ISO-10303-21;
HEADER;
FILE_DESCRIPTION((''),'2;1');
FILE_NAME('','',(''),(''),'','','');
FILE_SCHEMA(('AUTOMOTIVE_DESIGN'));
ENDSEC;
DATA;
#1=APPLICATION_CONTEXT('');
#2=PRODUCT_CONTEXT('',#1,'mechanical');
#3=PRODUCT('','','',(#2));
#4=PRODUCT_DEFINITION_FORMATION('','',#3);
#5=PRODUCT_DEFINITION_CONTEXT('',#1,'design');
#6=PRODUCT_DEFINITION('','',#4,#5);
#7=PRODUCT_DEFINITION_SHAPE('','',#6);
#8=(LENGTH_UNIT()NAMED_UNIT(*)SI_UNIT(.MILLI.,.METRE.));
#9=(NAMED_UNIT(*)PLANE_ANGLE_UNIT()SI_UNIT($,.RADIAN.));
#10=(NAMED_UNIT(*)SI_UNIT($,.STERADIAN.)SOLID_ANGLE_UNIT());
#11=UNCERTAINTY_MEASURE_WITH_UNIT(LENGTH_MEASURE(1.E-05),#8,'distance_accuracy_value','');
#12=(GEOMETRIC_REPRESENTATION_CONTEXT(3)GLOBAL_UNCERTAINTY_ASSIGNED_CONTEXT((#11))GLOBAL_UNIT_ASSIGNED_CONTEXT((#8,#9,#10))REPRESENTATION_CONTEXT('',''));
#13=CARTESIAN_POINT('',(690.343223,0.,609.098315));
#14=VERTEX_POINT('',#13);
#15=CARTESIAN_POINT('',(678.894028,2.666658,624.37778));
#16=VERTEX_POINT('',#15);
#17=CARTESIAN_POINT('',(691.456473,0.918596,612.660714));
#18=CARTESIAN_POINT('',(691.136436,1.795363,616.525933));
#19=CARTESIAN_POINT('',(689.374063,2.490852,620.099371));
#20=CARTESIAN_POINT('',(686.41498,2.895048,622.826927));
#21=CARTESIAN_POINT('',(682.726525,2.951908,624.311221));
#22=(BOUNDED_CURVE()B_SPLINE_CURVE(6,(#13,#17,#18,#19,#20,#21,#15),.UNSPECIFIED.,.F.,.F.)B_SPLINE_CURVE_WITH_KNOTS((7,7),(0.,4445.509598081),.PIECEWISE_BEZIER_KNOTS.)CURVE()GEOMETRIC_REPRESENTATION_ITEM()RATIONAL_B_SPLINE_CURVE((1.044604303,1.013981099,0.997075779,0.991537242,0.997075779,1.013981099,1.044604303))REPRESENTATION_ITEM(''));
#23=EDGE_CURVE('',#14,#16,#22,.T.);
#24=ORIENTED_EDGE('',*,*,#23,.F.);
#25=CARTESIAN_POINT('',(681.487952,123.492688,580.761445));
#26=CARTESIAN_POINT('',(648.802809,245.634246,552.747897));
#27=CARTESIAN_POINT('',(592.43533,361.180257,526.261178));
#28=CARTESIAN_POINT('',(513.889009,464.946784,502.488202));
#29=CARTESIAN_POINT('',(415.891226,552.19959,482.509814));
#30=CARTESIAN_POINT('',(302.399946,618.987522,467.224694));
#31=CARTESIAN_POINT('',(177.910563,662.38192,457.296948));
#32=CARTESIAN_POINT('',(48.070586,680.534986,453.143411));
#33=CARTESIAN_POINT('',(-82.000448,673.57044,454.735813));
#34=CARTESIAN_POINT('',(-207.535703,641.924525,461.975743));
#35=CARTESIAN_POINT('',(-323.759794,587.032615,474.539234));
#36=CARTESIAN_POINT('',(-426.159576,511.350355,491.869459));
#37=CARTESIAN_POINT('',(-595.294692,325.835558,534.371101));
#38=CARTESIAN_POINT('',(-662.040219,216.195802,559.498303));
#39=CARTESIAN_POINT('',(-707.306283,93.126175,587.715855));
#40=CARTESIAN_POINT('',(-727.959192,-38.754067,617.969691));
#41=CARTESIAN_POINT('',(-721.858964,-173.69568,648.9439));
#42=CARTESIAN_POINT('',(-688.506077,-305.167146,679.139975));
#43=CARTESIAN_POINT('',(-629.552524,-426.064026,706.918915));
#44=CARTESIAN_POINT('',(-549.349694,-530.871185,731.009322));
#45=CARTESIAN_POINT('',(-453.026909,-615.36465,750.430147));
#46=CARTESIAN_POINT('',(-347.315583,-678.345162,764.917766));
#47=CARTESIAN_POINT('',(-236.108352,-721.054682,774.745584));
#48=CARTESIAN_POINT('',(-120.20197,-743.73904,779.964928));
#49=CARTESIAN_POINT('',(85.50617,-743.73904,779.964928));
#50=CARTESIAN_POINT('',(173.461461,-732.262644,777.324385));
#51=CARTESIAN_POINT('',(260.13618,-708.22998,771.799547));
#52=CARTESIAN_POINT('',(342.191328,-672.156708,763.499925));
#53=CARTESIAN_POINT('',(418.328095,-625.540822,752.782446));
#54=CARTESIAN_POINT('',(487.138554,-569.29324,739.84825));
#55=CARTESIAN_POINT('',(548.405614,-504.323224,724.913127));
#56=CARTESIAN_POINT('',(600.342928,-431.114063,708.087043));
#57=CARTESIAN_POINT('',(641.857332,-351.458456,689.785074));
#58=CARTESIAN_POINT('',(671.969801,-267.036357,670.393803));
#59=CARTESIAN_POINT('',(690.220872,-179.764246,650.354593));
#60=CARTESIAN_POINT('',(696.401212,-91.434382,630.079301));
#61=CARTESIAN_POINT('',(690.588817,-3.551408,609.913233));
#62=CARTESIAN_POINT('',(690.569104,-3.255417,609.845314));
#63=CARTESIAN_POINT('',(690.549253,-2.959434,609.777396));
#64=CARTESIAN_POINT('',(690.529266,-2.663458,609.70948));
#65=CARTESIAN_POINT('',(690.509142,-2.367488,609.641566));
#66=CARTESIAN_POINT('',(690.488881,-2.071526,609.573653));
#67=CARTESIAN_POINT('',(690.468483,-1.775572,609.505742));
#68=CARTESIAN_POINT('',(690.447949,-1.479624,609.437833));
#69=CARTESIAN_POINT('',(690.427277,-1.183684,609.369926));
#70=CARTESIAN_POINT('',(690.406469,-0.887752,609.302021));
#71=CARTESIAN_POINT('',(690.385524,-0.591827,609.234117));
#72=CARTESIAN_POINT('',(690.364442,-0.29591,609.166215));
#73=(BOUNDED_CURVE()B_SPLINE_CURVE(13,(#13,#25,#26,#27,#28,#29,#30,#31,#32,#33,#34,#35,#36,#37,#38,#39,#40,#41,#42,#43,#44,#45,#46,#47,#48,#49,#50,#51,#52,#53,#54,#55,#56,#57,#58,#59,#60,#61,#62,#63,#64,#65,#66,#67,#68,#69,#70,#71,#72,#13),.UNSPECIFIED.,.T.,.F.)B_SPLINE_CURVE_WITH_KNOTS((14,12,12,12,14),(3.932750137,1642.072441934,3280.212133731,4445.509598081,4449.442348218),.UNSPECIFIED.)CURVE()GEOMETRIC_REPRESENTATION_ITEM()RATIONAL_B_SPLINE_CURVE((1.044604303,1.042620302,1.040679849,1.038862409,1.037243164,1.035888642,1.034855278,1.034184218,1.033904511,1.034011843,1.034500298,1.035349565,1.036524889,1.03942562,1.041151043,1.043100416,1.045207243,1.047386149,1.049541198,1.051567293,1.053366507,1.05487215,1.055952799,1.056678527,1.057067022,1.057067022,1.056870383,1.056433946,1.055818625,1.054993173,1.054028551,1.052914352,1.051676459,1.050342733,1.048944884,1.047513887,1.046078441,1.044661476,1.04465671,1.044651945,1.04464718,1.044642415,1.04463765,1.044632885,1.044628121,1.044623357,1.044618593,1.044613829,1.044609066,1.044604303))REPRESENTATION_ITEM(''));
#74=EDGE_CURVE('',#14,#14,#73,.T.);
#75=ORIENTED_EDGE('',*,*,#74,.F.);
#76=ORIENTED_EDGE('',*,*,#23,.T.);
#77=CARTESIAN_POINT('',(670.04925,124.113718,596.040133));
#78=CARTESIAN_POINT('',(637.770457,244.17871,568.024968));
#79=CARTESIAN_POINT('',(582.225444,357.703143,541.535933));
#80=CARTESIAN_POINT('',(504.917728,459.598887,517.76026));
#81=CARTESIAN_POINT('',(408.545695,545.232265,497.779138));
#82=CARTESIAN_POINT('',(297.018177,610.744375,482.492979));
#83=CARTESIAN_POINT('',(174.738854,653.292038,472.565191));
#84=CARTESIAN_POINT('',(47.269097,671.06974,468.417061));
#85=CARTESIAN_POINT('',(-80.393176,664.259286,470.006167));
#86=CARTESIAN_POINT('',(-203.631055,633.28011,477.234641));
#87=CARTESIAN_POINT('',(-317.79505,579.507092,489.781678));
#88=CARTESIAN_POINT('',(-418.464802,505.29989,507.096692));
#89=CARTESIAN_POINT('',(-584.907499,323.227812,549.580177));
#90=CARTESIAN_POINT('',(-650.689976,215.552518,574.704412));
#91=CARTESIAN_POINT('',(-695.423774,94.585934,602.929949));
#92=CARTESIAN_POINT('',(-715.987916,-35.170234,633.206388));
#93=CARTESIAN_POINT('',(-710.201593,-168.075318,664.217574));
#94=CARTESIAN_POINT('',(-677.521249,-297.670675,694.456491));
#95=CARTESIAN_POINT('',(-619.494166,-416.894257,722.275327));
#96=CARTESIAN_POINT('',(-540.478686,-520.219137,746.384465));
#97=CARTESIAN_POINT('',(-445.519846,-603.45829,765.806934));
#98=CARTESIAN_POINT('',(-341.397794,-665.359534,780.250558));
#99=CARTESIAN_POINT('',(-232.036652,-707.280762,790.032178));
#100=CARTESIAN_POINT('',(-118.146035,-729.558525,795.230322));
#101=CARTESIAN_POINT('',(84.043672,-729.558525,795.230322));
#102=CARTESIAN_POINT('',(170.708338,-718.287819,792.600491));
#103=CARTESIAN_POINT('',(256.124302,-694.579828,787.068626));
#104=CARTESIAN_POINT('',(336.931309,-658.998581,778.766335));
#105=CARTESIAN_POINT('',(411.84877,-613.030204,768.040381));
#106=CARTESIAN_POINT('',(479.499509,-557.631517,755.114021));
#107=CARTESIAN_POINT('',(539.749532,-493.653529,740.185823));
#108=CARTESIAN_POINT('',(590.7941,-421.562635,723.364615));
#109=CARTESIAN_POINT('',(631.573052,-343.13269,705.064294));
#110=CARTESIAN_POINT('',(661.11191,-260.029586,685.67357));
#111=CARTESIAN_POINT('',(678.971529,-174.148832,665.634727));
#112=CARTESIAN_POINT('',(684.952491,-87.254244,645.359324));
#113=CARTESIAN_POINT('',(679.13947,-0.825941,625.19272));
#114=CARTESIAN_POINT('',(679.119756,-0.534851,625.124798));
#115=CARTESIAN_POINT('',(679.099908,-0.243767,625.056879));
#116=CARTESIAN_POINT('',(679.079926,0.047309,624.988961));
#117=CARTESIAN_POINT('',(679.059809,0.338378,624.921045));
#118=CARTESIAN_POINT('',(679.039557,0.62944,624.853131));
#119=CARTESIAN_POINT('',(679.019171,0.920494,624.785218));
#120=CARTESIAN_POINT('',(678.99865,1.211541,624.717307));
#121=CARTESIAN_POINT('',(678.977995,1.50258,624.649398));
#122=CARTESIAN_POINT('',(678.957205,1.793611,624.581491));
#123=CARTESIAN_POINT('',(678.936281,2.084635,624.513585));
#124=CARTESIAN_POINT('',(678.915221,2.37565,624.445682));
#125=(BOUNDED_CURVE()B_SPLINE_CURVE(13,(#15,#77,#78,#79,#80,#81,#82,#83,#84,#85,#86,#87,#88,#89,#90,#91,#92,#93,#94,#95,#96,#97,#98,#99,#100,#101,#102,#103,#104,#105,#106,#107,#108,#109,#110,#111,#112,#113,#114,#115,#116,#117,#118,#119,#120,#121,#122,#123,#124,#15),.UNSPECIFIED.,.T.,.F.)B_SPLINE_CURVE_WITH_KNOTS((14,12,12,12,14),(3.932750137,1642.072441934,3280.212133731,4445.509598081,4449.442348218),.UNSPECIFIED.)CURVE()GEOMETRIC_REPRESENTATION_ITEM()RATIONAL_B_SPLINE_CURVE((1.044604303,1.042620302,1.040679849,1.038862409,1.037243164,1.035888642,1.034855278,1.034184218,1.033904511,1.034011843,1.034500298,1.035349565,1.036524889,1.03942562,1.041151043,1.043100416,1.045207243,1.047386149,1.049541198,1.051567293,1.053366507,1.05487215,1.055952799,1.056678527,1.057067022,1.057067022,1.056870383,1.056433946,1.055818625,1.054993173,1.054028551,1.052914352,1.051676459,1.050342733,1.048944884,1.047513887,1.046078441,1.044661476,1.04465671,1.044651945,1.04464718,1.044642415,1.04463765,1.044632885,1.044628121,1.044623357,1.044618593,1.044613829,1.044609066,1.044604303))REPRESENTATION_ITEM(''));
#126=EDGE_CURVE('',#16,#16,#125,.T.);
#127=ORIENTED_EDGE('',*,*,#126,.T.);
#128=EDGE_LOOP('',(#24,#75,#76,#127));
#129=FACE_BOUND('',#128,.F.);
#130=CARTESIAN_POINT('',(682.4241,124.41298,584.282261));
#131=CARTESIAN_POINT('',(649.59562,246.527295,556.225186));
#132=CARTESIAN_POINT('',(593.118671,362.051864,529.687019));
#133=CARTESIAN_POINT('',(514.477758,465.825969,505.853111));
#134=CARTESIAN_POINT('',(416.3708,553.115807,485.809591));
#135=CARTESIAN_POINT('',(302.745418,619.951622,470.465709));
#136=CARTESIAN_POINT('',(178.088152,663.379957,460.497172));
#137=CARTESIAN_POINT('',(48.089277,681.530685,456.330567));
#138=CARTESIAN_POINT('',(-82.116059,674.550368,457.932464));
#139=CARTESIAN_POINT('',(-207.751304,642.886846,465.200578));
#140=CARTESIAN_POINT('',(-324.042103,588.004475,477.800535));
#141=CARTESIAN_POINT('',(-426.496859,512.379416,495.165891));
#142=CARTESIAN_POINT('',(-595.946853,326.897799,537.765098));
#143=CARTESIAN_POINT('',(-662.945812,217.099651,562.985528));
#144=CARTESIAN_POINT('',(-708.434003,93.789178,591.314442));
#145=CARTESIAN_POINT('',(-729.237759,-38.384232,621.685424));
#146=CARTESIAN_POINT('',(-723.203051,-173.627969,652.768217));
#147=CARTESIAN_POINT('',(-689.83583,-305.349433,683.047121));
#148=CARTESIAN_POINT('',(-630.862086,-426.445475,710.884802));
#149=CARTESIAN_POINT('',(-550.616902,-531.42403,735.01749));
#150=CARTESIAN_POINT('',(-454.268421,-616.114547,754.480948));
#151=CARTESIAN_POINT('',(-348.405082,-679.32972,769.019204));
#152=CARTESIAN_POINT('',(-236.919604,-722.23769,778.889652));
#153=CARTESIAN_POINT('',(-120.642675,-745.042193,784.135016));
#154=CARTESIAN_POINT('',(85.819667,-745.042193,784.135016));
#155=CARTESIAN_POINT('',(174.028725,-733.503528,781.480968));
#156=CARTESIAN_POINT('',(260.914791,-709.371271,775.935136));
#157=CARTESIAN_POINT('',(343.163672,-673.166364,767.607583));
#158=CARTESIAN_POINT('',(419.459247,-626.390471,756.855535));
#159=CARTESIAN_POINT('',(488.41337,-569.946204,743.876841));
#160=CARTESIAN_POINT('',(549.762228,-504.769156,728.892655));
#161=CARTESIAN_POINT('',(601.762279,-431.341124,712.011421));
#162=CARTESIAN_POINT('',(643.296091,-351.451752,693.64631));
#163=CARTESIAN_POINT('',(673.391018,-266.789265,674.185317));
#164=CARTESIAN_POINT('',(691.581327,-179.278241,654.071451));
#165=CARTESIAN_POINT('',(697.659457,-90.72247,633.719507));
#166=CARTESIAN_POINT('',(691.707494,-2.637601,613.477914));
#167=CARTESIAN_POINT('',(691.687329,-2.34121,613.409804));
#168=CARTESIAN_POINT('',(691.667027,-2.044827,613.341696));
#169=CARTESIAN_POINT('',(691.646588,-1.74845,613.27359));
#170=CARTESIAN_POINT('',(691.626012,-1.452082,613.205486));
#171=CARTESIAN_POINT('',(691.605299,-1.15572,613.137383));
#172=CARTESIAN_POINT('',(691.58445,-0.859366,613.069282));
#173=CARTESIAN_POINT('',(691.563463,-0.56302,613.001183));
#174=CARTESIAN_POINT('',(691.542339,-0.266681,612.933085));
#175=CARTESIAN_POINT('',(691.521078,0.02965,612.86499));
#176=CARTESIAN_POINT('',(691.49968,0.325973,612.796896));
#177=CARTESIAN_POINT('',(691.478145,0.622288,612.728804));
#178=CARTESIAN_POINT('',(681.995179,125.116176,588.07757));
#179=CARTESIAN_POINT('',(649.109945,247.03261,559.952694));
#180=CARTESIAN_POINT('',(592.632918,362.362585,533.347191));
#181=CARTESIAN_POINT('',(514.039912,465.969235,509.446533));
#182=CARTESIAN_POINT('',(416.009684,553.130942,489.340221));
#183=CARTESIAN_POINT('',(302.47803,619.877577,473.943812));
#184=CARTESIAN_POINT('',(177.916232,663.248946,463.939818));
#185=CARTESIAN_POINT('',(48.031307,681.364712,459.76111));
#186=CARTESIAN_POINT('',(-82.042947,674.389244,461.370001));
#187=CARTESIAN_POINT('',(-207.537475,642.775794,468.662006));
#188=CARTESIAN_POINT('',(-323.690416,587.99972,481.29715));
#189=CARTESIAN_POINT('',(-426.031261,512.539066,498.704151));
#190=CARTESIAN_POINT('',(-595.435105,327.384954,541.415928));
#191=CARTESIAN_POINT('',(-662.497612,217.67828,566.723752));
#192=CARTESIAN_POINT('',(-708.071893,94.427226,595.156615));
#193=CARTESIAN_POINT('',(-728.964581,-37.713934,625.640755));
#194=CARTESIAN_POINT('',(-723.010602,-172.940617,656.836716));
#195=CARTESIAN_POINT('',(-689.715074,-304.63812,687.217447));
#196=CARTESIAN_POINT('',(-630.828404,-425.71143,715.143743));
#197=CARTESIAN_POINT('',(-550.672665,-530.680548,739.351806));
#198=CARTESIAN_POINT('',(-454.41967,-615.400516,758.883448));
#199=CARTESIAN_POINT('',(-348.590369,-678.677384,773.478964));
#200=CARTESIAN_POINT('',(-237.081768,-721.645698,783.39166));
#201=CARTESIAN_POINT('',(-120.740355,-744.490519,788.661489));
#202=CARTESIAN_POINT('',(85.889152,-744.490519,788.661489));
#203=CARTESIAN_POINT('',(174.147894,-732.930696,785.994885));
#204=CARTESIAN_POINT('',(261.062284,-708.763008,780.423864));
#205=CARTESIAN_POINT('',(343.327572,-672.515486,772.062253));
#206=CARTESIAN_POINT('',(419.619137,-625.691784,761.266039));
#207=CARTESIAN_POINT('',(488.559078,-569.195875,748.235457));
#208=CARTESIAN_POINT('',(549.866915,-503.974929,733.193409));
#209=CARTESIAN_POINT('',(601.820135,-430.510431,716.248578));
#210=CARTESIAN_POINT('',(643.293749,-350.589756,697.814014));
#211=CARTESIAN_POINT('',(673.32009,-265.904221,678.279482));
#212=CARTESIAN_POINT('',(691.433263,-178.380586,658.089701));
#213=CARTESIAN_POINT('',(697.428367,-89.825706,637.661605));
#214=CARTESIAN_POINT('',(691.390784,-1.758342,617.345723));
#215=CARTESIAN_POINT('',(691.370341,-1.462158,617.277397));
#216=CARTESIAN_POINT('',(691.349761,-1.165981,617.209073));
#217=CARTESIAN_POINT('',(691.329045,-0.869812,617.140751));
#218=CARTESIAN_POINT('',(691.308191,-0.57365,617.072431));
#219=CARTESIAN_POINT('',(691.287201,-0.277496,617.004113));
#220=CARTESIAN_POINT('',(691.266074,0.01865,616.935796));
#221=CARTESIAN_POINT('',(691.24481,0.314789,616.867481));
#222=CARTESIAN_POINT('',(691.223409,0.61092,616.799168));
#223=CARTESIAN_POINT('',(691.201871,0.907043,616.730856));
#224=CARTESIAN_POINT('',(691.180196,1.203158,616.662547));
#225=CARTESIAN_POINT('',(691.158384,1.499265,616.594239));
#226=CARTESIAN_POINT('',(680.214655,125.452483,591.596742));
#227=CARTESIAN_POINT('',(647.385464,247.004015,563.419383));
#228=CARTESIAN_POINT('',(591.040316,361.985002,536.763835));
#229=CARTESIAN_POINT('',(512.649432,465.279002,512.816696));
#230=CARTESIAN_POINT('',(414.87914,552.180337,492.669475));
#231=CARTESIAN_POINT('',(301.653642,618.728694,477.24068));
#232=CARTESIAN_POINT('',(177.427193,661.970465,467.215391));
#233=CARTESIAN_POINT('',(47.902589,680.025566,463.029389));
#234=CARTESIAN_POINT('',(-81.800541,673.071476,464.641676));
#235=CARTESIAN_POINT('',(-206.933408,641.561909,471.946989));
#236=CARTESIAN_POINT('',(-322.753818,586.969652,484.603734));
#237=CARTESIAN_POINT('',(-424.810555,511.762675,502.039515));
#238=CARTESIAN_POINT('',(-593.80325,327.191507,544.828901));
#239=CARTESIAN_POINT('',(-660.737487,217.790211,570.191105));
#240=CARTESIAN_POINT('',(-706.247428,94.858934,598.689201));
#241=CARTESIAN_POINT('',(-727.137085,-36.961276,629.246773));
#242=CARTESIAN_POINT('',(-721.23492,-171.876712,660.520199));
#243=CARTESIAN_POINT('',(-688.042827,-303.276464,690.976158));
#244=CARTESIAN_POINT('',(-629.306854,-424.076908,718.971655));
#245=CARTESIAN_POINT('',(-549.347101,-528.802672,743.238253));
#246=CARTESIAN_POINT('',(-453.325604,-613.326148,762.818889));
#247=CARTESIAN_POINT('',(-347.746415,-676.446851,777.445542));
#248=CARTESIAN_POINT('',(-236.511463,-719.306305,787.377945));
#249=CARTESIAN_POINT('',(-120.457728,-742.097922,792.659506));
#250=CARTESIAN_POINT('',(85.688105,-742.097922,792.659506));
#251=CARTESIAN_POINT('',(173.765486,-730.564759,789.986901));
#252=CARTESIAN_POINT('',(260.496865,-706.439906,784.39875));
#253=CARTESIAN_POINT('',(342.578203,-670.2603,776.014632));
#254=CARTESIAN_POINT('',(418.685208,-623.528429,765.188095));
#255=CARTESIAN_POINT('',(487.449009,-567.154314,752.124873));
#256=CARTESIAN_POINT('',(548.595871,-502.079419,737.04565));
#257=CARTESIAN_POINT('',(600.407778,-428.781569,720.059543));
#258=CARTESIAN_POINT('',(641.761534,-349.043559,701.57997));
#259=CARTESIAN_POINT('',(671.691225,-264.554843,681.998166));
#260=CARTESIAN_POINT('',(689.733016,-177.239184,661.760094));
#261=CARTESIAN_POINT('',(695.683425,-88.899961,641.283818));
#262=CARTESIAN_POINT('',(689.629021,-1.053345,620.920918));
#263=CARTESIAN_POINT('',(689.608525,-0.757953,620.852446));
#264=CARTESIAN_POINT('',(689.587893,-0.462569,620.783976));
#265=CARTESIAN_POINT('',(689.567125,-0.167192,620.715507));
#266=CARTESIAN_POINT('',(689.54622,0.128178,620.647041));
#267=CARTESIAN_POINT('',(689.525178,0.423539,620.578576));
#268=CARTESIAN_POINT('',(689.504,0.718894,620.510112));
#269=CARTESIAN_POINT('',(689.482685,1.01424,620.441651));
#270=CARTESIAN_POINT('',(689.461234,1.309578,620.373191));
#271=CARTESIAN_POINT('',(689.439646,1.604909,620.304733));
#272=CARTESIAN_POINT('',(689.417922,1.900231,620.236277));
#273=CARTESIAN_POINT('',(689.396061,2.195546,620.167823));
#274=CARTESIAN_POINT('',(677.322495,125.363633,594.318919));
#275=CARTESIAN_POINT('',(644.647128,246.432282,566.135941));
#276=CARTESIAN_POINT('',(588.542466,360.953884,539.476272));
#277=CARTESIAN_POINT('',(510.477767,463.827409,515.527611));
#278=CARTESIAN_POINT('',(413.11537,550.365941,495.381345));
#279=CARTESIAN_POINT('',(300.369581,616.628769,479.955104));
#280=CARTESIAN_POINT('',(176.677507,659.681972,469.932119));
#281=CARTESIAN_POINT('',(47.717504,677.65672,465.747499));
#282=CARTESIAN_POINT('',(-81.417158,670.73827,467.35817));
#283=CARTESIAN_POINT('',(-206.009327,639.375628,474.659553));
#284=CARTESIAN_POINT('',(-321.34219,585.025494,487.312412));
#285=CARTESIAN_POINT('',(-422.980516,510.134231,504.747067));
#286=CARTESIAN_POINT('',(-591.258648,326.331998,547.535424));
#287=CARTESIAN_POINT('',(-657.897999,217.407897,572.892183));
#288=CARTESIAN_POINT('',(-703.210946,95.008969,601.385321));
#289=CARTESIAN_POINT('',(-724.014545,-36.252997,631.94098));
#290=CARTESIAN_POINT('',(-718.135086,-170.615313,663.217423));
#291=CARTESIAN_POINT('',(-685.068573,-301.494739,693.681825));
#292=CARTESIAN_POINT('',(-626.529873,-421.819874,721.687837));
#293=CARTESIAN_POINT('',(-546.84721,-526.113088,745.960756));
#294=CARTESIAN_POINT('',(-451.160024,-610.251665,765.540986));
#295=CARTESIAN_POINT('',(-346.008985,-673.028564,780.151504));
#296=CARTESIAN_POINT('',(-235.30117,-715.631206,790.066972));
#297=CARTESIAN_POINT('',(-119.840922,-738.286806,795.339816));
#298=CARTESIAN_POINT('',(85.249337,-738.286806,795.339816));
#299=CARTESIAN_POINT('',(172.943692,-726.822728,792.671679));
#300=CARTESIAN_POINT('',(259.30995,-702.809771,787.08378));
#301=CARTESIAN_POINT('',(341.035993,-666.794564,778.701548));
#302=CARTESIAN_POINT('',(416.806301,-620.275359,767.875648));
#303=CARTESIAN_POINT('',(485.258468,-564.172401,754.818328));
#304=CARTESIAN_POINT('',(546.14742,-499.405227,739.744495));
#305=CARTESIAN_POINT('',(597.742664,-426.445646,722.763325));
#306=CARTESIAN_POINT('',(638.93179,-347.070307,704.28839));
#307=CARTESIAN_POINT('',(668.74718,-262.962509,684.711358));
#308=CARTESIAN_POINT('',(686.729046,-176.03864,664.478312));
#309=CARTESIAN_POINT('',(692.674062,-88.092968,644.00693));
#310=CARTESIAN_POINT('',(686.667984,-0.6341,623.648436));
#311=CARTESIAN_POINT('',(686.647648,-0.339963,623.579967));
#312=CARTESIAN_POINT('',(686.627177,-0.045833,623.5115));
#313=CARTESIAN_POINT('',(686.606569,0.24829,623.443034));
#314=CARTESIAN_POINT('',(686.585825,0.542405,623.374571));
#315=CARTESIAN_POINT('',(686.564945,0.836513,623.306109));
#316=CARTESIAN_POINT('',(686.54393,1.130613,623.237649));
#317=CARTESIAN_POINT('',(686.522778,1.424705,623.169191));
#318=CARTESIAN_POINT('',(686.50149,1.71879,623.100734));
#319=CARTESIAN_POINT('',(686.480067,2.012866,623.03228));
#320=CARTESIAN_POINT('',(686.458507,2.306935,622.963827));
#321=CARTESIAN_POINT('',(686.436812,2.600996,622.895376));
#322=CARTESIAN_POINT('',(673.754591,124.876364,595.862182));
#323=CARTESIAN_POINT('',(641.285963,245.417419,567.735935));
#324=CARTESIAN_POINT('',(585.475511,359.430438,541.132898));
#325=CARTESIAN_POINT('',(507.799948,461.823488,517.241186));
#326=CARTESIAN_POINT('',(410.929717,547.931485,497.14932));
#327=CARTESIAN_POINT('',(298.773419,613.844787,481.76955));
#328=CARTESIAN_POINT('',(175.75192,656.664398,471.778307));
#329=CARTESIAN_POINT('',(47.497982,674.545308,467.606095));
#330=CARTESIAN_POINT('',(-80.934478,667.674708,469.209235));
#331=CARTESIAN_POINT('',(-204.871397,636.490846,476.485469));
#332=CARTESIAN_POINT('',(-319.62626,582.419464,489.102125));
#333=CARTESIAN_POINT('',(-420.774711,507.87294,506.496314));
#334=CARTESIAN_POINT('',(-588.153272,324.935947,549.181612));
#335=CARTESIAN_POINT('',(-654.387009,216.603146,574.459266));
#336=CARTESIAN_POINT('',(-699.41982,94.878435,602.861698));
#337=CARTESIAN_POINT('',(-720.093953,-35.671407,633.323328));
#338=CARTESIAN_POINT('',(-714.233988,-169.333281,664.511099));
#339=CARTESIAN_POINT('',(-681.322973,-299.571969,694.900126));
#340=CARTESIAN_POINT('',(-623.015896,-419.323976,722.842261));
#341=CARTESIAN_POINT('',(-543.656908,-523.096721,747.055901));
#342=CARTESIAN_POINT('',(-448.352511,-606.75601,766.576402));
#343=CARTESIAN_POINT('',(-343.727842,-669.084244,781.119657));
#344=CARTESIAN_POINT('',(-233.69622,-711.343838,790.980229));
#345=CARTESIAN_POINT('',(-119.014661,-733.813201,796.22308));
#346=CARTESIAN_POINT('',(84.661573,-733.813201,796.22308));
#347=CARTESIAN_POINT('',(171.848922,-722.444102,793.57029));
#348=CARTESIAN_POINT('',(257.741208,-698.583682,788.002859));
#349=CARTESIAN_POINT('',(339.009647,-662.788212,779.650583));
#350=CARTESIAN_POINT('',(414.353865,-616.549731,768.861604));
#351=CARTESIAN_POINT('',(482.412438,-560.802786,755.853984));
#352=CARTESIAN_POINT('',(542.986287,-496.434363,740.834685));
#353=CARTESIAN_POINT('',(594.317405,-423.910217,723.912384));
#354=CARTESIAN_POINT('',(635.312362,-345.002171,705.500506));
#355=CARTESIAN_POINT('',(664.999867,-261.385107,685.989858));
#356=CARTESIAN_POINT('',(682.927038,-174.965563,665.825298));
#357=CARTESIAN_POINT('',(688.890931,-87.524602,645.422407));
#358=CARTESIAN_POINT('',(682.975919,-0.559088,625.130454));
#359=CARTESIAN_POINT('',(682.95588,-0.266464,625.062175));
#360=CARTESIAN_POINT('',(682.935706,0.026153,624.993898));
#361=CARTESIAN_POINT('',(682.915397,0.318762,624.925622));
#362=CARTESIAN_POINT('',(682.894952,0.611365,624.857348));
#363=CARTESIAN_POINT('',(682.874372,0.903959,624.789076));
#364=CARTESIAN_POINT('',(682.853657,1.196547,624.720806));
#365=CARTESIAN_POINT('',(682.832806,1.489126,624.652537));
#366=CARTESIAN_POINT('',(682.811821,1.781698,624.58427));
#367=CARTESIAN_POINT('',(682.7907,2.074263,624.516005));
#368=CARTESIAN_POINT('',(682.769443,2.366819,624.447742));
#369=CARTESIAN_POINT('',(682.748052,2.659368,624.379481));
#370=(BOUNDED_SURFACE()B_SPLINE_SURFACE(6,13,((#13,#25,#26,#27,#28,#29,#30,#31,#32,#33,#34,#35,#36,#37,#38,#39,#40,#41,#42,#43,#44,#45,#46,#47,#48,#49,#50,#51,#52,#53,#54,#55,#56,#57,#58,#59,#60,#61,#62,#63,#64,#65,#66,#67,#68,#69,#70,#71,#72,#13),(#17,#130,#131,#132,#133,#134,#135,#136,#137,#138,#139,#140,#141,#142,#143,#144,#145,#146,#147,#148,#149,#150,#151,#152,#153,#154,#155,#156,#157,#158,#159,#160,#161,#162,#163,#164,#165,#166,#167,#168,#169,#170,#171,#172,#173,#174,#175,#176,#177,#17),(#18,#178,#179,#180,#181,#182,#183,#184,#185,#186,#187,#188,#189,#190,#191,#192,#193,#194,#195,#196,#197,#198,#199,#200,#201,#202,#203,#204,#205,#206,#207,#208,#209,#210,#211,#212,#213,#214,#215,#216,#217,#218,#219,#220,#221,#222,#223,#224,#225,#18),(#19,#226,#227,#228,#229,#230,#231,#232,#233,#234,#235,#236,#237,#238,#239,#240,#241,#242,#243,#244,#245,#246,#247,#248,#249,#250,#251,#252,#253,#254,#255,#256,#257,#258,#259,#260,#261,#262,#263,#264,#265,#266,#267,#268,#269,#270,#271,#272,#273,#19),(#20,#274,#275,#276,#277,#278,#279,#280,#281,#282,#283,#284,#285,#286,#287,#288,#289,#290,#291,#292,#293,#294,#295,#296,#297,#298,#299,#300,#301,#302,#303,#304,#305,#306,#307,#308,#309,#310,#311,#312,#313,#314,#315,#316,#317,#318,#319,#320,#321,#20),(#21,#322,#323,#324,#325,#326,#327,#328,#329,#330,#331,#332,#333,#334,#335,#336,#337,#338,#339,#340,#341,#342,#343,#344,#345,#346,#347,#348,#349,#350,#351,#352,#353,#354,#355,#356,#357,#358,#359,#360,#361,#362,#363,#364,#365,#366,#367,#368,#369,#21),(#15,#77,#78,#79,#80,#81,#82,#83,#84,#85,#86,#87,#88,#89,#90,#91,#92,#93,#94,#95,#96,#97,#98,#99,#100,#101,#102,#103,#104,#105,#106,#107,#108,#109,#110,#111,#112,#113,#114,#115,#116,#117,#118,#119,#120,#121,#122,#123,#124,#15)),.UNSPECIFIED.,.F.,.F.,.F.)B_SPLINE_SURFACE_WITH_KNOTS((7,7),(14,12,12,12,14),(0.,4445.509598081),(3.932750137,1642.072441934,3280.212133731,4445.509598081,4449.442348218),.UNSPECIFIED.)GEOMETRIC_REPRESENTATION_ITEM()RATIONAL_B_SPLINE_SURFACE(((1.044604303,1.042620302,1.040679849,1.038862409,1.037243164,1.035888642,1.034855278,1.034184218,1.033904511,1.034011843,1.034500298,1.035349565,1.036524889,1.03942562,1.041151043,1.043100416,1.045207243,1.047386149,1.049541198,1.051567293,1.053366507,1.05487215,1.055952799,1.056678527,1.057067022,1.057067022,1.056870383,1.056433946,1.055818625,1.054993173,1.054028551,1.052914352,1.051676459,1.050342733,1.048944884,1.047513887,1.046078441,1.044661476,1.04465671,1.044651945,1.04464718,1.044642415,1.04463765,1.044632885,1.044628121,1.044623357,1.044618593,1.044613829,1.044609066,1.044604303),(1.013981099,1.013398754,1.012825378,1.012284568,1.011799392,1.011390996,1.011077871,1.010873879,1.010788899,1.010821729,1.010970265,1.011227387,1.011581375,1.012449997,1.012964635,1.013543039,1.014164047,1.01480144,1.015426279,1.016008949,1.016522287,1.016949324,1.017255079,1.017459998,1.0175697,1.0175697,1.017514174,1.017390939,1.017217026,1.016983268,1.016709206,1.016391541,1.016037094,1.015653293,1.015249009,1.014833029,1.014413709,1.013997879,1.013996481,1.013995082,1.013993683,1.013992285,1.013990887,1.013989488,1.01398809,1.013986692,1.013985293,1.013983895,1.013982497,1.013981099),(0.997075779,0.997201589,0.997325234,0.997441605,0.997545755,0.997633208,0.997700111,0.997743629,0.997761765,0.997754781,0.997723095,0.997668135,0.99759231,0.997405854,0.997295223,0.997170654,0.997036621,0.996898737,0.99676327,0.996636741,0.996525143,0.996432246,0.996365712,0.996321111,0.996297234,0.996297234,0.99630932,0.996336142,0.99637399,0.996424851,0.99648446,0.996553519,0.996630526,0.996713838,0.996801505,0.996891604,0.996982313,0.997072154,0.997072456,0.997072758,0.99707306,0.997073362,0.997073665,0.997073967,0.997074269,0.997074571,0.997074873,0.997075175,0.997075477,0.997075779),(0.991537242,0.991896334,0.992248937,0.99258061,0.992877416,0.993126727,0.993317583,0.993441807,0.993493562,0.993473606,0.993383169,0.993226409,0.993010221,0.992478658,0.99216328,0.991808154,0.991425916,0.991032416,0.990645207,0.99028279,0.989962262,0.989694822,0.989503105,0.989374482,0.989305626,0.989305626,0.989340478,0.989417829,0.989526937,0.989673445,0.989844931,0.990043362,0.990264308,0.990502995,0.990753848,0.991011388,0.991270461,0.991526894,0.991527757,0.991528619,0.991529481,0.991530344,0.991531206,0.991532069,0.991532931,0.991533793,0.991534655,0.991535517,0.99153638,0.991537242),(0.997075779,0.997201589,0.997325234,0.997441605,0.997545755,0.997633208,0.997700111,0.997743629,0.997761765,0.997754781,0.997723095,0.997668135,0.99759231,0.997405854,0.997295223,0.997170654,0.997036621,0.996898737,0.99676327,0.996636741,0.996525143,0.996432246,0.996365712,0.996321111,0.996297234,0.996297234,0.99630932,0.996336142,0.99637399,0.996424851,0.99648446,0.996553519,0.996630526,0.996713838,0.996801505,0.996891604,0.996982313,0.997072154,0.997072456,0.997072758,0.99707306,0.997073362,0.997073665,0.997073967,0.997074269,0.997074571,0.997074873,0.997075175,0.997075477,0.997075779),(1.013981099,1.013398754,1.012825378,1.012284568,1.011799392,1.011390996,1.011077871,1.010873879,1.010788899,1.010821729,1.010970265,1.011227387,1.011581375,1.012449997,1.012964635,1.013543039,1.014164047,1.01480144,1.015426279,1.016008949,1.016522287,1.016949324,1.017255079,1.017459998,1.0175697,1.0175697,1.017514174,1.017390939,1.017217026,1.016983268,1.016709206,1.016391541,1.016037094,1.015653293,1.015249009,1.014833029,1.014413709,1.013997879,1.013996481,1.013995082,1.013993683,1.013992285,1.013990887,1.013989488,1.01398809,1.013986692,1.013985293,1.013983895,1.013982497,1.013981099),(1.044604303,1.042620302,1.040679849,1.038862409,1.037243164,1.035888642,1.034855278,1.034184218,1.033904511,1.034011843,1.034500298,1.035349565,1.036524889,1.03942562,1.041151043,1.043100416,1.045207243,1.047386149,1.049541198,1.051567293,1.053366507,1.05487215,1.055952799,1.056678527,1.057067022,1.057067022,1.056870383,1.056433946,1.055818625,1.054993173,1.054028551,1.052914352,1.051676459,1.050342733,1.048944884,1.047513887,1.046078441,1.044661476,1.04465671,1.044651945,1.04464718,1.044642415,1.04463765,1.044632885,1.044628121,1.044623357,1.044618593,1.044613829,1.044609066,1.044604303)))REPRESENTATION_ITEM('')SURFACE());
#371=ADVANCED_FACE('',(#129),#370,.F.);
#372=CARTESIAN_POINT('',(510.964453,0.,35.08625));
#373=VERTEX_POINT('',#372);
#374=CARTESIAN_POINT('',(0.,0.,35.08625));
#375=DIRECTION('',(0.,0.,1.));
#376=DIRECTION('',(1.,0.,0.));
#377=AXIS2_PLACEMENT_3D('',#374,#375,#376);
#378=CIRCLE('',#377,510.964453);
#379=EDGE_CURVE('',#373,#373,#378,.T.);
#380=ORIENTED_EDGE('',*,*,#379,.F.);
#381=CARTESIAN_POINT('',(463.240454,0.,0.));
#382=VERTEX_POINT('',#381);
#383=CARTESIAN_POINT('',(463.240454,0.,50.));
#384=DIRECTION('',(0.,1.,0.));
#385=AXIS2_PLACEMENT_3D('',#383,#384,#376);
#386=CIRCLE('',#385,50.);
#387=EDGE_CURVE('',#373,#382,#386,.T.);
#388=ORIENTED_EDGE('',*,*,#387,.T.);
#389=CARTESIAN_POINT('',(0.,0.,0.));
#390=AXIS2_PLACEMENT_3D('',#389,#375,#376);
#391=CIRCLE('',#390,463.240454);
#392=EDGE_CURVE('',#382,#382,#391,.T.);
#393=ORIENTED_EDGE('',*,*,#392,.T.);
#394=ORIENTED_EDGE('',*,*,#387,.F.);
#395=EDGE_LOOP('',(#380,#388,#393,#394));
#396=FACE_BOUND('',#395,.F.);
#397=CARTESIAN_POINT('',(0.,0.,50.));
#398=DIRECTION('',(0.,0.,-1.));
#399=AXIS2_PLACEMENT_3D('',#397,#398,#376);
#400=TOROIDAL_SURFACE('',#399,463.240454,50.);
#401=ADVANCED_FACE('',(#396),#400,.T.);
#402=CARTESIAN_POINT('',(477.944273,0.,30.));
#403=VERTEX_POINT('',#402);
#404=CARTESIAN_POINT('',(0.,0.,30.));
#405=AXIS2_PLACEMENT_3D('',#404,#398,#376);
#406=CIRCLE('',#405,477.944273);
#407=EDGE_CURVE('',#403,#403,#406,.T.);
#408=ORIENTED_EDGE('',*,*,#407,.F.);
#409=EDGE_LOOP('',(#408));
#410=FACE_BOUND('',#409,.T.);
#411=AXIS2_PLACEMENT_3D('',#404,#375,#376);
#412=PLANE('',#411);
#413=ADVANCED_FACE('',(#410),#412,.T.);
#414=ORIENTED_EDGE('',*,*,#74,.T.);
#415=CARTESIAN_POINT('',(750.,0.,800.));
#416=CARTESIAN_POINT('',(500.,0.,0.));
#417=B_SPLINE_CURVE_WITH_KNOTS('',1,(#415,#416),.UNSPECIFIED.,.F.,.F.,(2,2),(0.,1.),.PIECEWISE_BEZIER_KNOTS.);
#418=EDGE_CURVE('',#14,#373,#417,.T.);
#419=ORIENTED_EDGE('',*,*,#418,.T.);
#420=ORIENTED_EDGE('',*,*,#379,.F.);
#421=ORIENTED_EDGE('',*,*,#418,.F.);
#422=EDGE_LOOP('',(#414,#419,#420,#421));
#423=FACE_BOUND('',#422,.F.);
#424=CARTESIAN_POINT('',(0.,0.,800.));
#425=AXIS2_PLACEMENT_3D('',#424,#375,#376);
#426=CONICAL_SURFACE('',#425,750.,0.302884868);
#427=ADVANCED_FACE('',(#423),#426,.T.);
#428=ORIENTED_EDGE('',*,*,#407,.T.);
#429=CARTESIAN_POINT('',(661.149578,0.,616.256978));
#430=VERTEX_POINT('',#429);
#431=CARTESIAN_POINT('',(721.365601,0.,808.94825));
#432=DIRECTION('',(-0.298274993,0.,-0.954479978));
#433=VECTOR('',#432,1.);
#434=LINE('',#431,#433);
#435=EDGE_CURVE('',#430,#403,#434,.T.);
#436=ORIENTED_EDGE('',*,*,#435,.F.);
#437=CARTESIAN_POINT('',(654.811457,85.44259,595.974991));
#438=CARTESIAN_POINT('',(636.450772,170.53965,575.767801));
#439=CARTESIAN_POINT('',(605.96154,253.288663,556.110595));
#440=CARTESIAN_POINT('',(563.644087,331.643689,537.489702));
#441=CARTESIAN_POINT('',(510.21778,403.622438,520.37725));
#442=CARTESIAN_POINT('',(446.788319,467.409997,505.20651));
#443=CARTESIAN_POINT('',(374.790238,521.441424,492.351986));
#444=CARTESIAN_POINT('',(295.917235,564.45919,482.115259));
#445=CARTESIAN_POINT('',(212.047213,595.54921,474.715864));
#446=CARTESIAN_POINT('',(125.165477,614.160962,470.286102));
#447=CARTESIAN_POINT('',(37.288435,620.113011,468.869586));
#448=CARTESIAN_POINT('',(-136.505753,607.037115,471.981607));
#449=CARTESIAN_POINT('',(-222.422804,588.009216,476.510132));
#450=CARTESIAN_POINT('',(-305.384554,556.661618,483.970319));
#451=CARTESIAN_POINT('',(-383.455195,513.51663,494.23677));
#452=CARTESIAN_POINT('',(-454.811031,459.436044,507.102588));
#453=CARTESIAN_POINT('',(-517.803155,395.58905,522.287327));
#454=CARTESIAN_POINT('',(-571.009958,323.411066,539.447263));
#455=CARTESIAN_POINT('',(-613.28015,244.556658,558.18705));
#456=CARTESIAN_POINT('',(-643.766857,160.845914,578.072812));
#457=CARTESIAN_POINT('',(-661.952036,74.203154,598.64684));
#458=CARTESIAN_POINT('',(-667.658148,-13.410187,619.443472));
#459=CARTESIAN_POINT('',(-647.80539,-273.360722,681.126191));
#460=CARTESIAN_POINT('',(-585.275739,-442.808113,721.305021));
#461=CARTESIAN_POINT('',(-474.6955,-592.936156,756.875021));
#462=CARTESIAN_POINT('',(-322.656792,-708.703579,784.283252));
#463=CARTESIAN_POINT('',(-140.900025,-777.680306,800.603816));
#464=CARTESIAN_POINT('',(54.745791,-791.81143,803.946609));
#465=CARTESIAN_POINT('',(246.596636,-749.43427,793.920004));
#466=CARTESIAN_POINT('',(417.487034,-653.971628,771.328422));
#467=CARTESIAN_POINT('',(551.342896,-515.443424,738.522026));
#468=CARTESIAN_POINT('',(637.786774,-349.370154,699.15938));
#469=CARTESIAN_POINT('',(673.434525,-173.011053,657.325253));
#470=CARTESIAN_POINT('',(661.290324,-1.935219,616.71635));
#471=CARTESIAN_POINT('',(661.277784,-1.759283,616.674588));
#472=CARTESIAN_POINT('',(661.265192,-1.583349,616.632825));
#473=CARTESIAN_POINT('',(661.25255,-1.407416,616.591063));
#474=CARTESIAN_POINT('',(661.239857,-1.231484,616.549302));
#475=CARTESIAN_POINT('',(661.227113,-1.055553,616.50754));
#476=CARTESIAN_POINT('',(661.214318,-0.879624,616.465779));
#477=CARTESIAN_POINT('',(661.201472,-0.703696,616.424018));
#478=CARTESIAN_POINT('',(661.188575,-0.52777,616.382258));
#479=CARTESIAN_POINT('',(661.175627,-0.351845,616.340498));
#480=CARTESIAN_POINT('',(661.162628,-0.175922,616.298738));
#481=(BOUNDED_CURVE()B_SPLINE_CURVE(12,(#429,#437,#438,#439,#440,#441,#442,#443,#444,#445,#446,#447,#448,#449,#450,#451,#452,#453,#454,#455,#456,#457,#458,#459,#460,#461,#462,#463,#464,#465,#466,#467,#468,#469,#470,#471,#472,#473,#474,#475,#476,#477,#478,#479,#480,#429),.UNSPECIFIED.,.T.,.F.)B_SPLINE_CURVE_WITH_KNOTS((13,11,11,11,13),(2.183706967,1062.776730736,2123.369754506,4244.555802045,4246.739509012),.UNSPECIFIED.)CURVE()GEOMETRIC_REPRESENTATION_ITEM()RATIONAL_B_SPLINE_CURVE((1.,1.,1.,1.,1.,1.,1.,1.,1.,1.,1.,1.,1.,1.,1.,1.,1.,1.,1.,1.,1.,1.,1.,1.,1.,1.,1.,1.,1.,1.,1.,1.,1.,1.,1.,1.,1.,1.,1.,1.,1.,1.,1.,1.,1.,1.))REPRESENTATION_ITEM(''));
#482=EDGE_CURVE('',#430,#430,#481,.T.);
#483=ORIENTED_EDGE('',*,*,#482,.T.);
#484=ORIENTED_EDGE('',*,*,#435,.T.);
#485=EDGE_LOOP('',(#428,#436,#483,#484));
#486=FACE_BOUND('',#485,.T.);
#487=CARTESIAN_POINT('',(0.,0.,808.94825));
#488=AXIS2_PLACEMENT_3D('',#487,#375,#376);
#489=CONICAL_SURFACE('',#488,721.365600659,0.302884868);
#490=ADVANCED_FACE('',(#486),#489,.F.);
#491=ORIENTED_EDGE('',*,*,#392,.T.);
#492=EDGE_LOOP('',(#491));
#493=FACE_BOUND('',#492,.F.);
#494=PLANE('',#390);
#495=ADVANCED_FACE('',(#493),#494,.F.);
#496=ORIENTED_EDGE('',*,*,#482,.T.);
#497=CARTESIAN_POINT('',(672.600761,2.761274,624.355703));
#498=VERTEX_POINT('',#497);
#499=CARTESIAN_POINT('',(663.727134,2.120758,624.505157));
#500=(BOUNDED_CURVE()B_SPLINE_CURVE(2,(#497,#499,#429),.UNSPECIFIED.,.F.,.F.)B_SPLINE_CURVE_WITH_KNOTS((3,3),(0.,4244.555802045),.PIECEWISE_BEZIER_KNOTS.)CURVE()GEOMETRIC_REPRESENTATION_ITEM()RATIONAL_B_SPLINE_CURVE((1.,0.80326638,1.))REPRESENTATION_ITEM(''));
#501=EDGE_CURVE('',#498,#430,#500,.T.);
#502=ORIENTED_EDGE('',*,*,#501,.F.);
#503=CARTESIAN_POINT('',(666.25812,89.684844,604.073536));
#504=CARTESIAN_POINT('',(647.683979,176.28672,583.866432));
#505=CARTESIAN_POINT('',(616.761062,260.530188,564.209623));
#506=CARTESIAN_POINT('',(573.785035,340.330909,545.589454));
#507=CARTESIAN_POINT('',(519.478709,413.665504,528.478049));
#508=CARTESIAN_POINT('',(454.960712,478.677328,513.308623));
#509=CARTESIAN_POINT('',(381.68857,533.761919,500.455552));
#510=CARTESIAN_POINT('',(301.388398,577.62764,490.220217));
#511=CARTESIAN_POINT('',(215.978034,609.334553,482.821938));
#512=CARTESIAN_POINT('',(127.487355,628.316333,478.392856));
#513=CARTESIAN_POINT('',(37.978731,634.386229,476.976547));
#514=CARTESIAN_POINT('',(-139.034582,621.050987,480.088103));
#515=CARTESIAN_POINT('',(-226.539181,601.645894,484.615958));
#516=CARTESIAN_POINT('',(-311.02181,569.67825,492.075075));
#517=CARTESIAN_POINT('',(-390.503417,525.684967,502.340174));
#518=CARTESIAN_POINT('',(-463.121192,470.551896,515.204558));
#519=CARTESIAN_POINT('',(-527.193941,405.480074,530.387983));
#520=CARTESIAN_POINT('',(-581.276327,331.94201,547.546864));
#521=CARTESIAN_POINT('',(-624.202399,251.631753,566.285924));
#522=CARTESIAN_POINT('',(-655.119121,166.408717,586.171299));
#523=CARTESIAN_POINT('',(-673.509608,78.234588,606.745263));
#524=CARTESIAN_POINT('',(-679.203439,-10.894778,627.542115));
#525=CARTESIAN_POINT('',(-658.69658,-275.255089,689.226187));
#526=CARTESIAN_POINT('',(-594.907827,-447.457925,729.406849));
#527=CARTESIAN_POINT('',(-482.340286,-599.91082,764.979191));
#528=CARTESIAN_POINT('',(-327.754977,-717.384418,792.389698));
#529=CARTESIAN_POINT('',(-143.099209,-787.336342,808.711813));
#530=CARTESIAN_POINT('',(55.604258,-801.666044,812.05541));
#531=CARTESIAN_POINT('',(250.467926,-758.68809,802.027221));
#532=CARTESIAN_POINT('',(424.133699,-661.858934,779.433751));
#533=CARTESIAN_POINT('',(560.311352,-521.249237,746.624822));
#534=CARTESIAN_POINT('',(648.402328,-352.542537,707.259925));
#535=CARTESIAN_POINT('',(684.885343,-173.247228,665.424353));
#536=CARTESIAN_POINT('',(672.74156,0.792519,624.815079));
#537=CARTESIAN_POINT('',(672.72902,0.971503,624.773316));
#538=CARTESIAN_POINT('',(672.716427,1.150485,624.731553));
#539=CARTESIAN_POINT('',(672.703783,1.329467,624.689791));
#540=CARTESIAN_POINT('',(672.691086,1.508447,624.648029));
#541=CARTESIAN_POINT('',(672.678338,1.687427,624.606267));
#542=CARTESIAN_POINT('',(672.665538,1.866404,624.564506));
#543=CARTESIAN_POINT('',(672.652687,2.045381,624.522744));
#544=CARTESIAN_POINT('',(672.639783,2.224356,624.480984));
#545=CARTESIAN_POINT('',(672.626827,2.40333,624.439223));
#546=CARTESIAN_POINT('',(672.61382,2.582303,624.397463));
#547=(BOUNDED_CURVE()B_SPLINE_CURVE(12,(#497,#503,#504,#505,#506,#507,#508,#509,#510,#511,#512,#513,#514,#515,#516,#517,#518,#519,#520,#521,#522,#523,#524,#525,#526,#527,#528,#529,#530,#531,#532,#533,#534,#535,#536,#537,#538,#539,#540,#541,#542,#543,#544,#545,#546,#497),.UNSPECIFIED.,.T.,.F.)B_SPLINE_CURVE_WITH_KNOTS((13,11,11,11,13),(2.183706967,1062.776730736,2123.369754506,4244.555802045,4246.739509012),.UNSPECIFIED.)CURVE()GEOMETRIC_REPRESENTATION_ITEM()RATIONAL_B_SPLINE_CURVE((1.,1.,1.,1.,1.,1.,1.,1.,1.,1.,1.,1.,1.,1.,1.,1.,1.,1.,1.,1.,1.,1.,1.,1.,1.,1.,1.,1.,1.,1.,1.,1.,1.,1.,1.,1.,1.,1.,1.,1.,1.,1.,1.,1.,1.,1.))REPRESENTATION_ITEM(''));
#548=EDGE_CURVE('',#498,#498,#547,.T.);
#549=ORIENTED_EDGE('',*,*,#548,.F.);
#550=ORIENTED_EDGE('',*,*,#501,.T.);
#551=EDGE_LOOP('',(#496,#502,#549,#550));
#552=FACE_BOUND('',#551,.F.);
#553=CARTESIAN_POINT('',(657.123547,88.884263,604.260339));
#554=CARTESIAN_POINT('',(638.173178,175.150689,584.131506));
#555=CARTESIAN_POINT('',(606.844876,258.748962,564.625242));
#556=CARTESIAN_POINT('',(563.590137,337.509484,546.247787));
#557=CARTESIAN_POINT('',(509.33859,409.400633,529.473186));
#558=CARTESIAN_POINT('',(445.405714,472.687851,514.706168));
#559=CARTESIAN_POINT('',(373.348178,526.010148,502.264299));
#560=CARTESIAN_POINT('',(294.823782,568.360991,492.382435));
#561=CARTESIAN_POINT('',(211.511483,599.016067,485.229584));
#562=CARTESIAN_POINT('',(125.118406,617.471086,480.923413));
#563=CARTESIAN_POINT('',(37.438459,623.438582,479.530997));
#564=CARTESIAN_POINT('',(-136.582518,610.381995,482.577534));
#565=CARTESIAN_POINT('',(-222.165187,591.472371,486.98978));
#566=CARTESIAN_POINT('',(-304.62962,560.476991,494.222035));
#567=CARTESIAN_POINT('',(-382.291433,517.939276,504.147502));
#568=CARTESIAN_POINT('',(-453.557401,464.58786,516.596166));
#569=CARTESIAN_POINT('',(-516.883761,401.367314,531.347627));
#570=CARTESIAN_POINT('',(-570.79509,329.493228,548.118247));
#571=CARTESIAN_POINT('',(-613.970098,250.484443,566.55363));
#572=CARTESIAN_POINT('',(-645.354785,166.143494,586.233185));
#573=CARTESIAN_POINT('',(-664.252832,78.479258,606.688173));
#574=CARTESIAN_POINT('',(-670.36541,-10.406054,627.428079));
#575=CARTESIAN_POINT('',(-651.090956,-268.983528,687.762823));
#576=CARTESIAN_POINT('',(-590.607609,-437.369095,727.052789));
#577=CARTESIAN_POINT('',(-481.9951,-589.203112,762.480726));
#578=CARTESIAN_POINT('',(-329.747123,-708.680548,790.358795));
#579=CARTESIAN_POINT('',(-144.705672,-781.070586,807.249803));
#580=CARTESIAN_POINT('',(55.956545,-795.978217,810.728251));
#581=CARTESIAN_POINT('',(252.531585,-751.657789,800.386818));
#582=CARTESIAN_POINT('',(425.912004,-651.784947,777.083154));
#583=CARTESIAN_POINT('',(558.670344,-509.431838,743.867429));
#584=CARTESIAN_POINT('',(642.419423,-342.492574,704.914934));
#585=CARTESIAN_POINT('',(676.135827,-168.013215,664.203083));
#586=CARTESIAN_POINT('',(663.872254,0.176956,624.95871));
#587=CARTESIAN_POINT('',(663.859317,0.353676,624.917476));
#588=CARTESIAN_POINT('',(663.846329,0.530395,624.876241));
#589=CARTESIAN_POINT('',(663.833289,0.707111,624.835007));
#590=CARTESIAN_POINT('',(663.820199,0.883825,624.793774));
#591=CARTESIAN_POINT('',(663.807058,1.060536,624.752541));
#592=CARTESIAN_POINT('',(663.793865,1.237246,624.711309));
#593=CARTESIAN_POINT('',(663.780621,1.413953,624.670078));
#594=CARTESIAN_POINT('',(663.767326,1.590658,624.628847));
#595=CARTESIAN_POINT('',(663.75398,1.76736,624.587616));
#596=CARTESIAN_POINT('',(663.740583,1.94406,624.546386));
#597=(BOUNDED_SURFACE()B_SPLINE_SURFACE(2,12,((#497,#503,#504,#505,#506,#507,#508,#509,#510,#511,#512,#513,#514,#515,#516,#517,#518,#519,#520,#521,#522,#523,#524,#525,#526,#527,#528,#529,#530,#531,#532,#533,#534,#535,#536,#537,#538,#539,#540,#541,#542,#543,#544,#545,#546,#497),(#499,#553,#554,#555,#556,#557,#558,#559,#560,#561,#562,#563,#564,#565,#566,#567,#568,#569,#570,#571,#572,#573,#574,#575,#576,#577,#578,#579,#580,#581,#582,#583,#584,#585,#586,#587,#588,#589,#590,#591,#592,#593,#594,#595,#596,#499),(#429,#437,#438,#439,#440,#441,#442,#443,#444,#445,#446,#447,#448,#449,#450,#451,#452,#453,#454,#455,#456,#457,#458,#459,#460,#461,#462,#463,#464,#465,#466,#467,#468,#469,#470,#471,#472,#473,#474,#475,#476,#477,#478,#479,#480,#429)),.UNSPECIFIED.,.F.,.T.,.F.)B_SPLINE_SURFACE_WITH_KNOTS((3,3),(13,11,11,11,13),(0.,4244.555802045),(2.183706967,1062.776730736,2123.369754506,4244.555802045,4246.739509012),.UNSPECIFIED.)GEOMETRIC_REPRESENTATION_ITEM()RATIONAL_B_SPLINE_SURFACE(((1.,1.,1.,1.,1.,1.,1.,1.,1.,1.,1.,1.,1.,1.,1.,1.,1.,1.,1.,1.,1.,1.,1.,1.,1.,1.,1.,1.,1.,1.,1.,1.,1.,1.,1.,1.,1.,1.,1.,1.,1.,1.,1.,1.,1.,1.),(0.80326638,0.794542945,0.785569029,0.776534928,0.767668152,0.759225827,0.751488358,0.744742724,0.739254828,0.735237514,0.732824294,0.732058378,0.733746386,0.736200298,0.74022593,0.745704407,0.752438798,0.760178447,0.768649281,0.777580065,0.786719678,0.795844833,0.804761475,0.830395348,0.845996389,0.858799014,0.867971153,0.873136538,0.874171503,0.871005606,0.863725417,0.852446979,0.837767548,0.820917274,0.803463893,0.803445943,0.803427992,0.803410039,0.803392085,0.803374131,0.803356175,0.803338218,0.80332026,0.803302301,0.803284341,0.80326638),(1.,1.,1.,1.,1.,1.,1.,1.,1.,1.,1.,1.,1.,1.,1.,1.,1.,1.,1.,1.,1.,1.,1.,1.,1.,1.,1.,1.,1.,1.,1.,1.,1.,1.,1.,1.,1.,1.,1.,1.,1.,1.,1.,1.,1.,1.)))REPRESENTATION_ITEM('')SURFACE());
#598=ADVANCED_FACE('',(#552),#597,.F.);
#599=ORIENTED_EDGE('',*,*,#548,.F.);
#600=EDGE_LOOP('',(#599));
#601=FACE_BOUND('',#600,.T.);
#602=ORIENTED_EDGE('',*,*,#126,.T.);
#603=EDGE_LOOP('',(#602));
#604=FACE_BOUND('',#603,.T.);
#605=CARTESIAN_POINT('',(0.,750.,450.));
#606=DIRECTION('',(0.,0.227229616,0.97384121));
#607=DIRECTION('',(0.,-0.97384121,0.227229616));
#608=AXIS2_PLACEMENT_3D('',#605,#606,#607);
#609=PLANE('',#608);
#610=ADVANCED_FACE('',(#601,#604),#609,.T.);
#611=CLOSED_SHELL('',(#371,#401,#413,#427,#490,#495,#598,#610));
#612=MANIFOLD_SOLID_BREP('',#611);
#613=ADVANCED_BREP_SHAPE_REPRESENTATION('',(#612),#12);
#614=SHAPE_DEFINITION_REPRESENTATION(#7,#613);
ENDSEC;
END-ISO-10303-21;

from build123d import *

# Parameters (mm, degrees)
EXTRUDE_DEPTH = 750
SKETCH001_R   = 750
SKETCH_R      = 500
THICKNESS_T   = -30
FILLET_1_R    = 50
FILLET_2_R    = 12


with BuildPart() as extrude_body:
    # Sketch002 → Extrude (new body, symmetric)
    with BuildSketch(Plane.YZ):
        Polygon((-750, 800), (-750, 0), (750, 0), (750, 450), align=None)
    extrude(amount=EXTRUDE_DEPTH, both=True)


with BuildPart() as fillet_body:
    # Sketch001 → Loft section 0
    with BuildSketch(Plane.XY.offset(800)):
        Circle(SKETCH001_R)
    # Sketch → Loft section 1
    with BuildSketch(Plane.XY):
        Circle(SKETCH_R)
    loft()

    # Thickness
    thickness_openings = [fillet_body.faces().sort_by_distance(p)[0] for p in [
        (0, 0, 800),
    ]]
    offset(amount=THICKNESS_T, openings=thickness_openings, kind=Kind.INTERSECTION)

    # Common: intersect Extrude body
    add(extrude_body.part, mode=Mode.INTERSECT)

    # Fillet 1
    fillet_1_edges = [fillet_body.edges().sort_by_distance(p)[0] for p in [
        (-500, 0, 0),
    ]]
    fillet(fillet_1_edges, radius=FILLET_1_R)

    # Fillet 2
    fillet_2_edges = [fillet_body.edges().sort_by_distance(p)[0] for p in [
        (-514.311014, 420.952843, 526.77767),
        (514.311013, -522.894591, 747.008738),
        (-663.881777, -97.33354, 647.711159),
    ]]
    fillet(fillet_2_edges, radius=FILLET_2_R)


solid = fillet_body.part
